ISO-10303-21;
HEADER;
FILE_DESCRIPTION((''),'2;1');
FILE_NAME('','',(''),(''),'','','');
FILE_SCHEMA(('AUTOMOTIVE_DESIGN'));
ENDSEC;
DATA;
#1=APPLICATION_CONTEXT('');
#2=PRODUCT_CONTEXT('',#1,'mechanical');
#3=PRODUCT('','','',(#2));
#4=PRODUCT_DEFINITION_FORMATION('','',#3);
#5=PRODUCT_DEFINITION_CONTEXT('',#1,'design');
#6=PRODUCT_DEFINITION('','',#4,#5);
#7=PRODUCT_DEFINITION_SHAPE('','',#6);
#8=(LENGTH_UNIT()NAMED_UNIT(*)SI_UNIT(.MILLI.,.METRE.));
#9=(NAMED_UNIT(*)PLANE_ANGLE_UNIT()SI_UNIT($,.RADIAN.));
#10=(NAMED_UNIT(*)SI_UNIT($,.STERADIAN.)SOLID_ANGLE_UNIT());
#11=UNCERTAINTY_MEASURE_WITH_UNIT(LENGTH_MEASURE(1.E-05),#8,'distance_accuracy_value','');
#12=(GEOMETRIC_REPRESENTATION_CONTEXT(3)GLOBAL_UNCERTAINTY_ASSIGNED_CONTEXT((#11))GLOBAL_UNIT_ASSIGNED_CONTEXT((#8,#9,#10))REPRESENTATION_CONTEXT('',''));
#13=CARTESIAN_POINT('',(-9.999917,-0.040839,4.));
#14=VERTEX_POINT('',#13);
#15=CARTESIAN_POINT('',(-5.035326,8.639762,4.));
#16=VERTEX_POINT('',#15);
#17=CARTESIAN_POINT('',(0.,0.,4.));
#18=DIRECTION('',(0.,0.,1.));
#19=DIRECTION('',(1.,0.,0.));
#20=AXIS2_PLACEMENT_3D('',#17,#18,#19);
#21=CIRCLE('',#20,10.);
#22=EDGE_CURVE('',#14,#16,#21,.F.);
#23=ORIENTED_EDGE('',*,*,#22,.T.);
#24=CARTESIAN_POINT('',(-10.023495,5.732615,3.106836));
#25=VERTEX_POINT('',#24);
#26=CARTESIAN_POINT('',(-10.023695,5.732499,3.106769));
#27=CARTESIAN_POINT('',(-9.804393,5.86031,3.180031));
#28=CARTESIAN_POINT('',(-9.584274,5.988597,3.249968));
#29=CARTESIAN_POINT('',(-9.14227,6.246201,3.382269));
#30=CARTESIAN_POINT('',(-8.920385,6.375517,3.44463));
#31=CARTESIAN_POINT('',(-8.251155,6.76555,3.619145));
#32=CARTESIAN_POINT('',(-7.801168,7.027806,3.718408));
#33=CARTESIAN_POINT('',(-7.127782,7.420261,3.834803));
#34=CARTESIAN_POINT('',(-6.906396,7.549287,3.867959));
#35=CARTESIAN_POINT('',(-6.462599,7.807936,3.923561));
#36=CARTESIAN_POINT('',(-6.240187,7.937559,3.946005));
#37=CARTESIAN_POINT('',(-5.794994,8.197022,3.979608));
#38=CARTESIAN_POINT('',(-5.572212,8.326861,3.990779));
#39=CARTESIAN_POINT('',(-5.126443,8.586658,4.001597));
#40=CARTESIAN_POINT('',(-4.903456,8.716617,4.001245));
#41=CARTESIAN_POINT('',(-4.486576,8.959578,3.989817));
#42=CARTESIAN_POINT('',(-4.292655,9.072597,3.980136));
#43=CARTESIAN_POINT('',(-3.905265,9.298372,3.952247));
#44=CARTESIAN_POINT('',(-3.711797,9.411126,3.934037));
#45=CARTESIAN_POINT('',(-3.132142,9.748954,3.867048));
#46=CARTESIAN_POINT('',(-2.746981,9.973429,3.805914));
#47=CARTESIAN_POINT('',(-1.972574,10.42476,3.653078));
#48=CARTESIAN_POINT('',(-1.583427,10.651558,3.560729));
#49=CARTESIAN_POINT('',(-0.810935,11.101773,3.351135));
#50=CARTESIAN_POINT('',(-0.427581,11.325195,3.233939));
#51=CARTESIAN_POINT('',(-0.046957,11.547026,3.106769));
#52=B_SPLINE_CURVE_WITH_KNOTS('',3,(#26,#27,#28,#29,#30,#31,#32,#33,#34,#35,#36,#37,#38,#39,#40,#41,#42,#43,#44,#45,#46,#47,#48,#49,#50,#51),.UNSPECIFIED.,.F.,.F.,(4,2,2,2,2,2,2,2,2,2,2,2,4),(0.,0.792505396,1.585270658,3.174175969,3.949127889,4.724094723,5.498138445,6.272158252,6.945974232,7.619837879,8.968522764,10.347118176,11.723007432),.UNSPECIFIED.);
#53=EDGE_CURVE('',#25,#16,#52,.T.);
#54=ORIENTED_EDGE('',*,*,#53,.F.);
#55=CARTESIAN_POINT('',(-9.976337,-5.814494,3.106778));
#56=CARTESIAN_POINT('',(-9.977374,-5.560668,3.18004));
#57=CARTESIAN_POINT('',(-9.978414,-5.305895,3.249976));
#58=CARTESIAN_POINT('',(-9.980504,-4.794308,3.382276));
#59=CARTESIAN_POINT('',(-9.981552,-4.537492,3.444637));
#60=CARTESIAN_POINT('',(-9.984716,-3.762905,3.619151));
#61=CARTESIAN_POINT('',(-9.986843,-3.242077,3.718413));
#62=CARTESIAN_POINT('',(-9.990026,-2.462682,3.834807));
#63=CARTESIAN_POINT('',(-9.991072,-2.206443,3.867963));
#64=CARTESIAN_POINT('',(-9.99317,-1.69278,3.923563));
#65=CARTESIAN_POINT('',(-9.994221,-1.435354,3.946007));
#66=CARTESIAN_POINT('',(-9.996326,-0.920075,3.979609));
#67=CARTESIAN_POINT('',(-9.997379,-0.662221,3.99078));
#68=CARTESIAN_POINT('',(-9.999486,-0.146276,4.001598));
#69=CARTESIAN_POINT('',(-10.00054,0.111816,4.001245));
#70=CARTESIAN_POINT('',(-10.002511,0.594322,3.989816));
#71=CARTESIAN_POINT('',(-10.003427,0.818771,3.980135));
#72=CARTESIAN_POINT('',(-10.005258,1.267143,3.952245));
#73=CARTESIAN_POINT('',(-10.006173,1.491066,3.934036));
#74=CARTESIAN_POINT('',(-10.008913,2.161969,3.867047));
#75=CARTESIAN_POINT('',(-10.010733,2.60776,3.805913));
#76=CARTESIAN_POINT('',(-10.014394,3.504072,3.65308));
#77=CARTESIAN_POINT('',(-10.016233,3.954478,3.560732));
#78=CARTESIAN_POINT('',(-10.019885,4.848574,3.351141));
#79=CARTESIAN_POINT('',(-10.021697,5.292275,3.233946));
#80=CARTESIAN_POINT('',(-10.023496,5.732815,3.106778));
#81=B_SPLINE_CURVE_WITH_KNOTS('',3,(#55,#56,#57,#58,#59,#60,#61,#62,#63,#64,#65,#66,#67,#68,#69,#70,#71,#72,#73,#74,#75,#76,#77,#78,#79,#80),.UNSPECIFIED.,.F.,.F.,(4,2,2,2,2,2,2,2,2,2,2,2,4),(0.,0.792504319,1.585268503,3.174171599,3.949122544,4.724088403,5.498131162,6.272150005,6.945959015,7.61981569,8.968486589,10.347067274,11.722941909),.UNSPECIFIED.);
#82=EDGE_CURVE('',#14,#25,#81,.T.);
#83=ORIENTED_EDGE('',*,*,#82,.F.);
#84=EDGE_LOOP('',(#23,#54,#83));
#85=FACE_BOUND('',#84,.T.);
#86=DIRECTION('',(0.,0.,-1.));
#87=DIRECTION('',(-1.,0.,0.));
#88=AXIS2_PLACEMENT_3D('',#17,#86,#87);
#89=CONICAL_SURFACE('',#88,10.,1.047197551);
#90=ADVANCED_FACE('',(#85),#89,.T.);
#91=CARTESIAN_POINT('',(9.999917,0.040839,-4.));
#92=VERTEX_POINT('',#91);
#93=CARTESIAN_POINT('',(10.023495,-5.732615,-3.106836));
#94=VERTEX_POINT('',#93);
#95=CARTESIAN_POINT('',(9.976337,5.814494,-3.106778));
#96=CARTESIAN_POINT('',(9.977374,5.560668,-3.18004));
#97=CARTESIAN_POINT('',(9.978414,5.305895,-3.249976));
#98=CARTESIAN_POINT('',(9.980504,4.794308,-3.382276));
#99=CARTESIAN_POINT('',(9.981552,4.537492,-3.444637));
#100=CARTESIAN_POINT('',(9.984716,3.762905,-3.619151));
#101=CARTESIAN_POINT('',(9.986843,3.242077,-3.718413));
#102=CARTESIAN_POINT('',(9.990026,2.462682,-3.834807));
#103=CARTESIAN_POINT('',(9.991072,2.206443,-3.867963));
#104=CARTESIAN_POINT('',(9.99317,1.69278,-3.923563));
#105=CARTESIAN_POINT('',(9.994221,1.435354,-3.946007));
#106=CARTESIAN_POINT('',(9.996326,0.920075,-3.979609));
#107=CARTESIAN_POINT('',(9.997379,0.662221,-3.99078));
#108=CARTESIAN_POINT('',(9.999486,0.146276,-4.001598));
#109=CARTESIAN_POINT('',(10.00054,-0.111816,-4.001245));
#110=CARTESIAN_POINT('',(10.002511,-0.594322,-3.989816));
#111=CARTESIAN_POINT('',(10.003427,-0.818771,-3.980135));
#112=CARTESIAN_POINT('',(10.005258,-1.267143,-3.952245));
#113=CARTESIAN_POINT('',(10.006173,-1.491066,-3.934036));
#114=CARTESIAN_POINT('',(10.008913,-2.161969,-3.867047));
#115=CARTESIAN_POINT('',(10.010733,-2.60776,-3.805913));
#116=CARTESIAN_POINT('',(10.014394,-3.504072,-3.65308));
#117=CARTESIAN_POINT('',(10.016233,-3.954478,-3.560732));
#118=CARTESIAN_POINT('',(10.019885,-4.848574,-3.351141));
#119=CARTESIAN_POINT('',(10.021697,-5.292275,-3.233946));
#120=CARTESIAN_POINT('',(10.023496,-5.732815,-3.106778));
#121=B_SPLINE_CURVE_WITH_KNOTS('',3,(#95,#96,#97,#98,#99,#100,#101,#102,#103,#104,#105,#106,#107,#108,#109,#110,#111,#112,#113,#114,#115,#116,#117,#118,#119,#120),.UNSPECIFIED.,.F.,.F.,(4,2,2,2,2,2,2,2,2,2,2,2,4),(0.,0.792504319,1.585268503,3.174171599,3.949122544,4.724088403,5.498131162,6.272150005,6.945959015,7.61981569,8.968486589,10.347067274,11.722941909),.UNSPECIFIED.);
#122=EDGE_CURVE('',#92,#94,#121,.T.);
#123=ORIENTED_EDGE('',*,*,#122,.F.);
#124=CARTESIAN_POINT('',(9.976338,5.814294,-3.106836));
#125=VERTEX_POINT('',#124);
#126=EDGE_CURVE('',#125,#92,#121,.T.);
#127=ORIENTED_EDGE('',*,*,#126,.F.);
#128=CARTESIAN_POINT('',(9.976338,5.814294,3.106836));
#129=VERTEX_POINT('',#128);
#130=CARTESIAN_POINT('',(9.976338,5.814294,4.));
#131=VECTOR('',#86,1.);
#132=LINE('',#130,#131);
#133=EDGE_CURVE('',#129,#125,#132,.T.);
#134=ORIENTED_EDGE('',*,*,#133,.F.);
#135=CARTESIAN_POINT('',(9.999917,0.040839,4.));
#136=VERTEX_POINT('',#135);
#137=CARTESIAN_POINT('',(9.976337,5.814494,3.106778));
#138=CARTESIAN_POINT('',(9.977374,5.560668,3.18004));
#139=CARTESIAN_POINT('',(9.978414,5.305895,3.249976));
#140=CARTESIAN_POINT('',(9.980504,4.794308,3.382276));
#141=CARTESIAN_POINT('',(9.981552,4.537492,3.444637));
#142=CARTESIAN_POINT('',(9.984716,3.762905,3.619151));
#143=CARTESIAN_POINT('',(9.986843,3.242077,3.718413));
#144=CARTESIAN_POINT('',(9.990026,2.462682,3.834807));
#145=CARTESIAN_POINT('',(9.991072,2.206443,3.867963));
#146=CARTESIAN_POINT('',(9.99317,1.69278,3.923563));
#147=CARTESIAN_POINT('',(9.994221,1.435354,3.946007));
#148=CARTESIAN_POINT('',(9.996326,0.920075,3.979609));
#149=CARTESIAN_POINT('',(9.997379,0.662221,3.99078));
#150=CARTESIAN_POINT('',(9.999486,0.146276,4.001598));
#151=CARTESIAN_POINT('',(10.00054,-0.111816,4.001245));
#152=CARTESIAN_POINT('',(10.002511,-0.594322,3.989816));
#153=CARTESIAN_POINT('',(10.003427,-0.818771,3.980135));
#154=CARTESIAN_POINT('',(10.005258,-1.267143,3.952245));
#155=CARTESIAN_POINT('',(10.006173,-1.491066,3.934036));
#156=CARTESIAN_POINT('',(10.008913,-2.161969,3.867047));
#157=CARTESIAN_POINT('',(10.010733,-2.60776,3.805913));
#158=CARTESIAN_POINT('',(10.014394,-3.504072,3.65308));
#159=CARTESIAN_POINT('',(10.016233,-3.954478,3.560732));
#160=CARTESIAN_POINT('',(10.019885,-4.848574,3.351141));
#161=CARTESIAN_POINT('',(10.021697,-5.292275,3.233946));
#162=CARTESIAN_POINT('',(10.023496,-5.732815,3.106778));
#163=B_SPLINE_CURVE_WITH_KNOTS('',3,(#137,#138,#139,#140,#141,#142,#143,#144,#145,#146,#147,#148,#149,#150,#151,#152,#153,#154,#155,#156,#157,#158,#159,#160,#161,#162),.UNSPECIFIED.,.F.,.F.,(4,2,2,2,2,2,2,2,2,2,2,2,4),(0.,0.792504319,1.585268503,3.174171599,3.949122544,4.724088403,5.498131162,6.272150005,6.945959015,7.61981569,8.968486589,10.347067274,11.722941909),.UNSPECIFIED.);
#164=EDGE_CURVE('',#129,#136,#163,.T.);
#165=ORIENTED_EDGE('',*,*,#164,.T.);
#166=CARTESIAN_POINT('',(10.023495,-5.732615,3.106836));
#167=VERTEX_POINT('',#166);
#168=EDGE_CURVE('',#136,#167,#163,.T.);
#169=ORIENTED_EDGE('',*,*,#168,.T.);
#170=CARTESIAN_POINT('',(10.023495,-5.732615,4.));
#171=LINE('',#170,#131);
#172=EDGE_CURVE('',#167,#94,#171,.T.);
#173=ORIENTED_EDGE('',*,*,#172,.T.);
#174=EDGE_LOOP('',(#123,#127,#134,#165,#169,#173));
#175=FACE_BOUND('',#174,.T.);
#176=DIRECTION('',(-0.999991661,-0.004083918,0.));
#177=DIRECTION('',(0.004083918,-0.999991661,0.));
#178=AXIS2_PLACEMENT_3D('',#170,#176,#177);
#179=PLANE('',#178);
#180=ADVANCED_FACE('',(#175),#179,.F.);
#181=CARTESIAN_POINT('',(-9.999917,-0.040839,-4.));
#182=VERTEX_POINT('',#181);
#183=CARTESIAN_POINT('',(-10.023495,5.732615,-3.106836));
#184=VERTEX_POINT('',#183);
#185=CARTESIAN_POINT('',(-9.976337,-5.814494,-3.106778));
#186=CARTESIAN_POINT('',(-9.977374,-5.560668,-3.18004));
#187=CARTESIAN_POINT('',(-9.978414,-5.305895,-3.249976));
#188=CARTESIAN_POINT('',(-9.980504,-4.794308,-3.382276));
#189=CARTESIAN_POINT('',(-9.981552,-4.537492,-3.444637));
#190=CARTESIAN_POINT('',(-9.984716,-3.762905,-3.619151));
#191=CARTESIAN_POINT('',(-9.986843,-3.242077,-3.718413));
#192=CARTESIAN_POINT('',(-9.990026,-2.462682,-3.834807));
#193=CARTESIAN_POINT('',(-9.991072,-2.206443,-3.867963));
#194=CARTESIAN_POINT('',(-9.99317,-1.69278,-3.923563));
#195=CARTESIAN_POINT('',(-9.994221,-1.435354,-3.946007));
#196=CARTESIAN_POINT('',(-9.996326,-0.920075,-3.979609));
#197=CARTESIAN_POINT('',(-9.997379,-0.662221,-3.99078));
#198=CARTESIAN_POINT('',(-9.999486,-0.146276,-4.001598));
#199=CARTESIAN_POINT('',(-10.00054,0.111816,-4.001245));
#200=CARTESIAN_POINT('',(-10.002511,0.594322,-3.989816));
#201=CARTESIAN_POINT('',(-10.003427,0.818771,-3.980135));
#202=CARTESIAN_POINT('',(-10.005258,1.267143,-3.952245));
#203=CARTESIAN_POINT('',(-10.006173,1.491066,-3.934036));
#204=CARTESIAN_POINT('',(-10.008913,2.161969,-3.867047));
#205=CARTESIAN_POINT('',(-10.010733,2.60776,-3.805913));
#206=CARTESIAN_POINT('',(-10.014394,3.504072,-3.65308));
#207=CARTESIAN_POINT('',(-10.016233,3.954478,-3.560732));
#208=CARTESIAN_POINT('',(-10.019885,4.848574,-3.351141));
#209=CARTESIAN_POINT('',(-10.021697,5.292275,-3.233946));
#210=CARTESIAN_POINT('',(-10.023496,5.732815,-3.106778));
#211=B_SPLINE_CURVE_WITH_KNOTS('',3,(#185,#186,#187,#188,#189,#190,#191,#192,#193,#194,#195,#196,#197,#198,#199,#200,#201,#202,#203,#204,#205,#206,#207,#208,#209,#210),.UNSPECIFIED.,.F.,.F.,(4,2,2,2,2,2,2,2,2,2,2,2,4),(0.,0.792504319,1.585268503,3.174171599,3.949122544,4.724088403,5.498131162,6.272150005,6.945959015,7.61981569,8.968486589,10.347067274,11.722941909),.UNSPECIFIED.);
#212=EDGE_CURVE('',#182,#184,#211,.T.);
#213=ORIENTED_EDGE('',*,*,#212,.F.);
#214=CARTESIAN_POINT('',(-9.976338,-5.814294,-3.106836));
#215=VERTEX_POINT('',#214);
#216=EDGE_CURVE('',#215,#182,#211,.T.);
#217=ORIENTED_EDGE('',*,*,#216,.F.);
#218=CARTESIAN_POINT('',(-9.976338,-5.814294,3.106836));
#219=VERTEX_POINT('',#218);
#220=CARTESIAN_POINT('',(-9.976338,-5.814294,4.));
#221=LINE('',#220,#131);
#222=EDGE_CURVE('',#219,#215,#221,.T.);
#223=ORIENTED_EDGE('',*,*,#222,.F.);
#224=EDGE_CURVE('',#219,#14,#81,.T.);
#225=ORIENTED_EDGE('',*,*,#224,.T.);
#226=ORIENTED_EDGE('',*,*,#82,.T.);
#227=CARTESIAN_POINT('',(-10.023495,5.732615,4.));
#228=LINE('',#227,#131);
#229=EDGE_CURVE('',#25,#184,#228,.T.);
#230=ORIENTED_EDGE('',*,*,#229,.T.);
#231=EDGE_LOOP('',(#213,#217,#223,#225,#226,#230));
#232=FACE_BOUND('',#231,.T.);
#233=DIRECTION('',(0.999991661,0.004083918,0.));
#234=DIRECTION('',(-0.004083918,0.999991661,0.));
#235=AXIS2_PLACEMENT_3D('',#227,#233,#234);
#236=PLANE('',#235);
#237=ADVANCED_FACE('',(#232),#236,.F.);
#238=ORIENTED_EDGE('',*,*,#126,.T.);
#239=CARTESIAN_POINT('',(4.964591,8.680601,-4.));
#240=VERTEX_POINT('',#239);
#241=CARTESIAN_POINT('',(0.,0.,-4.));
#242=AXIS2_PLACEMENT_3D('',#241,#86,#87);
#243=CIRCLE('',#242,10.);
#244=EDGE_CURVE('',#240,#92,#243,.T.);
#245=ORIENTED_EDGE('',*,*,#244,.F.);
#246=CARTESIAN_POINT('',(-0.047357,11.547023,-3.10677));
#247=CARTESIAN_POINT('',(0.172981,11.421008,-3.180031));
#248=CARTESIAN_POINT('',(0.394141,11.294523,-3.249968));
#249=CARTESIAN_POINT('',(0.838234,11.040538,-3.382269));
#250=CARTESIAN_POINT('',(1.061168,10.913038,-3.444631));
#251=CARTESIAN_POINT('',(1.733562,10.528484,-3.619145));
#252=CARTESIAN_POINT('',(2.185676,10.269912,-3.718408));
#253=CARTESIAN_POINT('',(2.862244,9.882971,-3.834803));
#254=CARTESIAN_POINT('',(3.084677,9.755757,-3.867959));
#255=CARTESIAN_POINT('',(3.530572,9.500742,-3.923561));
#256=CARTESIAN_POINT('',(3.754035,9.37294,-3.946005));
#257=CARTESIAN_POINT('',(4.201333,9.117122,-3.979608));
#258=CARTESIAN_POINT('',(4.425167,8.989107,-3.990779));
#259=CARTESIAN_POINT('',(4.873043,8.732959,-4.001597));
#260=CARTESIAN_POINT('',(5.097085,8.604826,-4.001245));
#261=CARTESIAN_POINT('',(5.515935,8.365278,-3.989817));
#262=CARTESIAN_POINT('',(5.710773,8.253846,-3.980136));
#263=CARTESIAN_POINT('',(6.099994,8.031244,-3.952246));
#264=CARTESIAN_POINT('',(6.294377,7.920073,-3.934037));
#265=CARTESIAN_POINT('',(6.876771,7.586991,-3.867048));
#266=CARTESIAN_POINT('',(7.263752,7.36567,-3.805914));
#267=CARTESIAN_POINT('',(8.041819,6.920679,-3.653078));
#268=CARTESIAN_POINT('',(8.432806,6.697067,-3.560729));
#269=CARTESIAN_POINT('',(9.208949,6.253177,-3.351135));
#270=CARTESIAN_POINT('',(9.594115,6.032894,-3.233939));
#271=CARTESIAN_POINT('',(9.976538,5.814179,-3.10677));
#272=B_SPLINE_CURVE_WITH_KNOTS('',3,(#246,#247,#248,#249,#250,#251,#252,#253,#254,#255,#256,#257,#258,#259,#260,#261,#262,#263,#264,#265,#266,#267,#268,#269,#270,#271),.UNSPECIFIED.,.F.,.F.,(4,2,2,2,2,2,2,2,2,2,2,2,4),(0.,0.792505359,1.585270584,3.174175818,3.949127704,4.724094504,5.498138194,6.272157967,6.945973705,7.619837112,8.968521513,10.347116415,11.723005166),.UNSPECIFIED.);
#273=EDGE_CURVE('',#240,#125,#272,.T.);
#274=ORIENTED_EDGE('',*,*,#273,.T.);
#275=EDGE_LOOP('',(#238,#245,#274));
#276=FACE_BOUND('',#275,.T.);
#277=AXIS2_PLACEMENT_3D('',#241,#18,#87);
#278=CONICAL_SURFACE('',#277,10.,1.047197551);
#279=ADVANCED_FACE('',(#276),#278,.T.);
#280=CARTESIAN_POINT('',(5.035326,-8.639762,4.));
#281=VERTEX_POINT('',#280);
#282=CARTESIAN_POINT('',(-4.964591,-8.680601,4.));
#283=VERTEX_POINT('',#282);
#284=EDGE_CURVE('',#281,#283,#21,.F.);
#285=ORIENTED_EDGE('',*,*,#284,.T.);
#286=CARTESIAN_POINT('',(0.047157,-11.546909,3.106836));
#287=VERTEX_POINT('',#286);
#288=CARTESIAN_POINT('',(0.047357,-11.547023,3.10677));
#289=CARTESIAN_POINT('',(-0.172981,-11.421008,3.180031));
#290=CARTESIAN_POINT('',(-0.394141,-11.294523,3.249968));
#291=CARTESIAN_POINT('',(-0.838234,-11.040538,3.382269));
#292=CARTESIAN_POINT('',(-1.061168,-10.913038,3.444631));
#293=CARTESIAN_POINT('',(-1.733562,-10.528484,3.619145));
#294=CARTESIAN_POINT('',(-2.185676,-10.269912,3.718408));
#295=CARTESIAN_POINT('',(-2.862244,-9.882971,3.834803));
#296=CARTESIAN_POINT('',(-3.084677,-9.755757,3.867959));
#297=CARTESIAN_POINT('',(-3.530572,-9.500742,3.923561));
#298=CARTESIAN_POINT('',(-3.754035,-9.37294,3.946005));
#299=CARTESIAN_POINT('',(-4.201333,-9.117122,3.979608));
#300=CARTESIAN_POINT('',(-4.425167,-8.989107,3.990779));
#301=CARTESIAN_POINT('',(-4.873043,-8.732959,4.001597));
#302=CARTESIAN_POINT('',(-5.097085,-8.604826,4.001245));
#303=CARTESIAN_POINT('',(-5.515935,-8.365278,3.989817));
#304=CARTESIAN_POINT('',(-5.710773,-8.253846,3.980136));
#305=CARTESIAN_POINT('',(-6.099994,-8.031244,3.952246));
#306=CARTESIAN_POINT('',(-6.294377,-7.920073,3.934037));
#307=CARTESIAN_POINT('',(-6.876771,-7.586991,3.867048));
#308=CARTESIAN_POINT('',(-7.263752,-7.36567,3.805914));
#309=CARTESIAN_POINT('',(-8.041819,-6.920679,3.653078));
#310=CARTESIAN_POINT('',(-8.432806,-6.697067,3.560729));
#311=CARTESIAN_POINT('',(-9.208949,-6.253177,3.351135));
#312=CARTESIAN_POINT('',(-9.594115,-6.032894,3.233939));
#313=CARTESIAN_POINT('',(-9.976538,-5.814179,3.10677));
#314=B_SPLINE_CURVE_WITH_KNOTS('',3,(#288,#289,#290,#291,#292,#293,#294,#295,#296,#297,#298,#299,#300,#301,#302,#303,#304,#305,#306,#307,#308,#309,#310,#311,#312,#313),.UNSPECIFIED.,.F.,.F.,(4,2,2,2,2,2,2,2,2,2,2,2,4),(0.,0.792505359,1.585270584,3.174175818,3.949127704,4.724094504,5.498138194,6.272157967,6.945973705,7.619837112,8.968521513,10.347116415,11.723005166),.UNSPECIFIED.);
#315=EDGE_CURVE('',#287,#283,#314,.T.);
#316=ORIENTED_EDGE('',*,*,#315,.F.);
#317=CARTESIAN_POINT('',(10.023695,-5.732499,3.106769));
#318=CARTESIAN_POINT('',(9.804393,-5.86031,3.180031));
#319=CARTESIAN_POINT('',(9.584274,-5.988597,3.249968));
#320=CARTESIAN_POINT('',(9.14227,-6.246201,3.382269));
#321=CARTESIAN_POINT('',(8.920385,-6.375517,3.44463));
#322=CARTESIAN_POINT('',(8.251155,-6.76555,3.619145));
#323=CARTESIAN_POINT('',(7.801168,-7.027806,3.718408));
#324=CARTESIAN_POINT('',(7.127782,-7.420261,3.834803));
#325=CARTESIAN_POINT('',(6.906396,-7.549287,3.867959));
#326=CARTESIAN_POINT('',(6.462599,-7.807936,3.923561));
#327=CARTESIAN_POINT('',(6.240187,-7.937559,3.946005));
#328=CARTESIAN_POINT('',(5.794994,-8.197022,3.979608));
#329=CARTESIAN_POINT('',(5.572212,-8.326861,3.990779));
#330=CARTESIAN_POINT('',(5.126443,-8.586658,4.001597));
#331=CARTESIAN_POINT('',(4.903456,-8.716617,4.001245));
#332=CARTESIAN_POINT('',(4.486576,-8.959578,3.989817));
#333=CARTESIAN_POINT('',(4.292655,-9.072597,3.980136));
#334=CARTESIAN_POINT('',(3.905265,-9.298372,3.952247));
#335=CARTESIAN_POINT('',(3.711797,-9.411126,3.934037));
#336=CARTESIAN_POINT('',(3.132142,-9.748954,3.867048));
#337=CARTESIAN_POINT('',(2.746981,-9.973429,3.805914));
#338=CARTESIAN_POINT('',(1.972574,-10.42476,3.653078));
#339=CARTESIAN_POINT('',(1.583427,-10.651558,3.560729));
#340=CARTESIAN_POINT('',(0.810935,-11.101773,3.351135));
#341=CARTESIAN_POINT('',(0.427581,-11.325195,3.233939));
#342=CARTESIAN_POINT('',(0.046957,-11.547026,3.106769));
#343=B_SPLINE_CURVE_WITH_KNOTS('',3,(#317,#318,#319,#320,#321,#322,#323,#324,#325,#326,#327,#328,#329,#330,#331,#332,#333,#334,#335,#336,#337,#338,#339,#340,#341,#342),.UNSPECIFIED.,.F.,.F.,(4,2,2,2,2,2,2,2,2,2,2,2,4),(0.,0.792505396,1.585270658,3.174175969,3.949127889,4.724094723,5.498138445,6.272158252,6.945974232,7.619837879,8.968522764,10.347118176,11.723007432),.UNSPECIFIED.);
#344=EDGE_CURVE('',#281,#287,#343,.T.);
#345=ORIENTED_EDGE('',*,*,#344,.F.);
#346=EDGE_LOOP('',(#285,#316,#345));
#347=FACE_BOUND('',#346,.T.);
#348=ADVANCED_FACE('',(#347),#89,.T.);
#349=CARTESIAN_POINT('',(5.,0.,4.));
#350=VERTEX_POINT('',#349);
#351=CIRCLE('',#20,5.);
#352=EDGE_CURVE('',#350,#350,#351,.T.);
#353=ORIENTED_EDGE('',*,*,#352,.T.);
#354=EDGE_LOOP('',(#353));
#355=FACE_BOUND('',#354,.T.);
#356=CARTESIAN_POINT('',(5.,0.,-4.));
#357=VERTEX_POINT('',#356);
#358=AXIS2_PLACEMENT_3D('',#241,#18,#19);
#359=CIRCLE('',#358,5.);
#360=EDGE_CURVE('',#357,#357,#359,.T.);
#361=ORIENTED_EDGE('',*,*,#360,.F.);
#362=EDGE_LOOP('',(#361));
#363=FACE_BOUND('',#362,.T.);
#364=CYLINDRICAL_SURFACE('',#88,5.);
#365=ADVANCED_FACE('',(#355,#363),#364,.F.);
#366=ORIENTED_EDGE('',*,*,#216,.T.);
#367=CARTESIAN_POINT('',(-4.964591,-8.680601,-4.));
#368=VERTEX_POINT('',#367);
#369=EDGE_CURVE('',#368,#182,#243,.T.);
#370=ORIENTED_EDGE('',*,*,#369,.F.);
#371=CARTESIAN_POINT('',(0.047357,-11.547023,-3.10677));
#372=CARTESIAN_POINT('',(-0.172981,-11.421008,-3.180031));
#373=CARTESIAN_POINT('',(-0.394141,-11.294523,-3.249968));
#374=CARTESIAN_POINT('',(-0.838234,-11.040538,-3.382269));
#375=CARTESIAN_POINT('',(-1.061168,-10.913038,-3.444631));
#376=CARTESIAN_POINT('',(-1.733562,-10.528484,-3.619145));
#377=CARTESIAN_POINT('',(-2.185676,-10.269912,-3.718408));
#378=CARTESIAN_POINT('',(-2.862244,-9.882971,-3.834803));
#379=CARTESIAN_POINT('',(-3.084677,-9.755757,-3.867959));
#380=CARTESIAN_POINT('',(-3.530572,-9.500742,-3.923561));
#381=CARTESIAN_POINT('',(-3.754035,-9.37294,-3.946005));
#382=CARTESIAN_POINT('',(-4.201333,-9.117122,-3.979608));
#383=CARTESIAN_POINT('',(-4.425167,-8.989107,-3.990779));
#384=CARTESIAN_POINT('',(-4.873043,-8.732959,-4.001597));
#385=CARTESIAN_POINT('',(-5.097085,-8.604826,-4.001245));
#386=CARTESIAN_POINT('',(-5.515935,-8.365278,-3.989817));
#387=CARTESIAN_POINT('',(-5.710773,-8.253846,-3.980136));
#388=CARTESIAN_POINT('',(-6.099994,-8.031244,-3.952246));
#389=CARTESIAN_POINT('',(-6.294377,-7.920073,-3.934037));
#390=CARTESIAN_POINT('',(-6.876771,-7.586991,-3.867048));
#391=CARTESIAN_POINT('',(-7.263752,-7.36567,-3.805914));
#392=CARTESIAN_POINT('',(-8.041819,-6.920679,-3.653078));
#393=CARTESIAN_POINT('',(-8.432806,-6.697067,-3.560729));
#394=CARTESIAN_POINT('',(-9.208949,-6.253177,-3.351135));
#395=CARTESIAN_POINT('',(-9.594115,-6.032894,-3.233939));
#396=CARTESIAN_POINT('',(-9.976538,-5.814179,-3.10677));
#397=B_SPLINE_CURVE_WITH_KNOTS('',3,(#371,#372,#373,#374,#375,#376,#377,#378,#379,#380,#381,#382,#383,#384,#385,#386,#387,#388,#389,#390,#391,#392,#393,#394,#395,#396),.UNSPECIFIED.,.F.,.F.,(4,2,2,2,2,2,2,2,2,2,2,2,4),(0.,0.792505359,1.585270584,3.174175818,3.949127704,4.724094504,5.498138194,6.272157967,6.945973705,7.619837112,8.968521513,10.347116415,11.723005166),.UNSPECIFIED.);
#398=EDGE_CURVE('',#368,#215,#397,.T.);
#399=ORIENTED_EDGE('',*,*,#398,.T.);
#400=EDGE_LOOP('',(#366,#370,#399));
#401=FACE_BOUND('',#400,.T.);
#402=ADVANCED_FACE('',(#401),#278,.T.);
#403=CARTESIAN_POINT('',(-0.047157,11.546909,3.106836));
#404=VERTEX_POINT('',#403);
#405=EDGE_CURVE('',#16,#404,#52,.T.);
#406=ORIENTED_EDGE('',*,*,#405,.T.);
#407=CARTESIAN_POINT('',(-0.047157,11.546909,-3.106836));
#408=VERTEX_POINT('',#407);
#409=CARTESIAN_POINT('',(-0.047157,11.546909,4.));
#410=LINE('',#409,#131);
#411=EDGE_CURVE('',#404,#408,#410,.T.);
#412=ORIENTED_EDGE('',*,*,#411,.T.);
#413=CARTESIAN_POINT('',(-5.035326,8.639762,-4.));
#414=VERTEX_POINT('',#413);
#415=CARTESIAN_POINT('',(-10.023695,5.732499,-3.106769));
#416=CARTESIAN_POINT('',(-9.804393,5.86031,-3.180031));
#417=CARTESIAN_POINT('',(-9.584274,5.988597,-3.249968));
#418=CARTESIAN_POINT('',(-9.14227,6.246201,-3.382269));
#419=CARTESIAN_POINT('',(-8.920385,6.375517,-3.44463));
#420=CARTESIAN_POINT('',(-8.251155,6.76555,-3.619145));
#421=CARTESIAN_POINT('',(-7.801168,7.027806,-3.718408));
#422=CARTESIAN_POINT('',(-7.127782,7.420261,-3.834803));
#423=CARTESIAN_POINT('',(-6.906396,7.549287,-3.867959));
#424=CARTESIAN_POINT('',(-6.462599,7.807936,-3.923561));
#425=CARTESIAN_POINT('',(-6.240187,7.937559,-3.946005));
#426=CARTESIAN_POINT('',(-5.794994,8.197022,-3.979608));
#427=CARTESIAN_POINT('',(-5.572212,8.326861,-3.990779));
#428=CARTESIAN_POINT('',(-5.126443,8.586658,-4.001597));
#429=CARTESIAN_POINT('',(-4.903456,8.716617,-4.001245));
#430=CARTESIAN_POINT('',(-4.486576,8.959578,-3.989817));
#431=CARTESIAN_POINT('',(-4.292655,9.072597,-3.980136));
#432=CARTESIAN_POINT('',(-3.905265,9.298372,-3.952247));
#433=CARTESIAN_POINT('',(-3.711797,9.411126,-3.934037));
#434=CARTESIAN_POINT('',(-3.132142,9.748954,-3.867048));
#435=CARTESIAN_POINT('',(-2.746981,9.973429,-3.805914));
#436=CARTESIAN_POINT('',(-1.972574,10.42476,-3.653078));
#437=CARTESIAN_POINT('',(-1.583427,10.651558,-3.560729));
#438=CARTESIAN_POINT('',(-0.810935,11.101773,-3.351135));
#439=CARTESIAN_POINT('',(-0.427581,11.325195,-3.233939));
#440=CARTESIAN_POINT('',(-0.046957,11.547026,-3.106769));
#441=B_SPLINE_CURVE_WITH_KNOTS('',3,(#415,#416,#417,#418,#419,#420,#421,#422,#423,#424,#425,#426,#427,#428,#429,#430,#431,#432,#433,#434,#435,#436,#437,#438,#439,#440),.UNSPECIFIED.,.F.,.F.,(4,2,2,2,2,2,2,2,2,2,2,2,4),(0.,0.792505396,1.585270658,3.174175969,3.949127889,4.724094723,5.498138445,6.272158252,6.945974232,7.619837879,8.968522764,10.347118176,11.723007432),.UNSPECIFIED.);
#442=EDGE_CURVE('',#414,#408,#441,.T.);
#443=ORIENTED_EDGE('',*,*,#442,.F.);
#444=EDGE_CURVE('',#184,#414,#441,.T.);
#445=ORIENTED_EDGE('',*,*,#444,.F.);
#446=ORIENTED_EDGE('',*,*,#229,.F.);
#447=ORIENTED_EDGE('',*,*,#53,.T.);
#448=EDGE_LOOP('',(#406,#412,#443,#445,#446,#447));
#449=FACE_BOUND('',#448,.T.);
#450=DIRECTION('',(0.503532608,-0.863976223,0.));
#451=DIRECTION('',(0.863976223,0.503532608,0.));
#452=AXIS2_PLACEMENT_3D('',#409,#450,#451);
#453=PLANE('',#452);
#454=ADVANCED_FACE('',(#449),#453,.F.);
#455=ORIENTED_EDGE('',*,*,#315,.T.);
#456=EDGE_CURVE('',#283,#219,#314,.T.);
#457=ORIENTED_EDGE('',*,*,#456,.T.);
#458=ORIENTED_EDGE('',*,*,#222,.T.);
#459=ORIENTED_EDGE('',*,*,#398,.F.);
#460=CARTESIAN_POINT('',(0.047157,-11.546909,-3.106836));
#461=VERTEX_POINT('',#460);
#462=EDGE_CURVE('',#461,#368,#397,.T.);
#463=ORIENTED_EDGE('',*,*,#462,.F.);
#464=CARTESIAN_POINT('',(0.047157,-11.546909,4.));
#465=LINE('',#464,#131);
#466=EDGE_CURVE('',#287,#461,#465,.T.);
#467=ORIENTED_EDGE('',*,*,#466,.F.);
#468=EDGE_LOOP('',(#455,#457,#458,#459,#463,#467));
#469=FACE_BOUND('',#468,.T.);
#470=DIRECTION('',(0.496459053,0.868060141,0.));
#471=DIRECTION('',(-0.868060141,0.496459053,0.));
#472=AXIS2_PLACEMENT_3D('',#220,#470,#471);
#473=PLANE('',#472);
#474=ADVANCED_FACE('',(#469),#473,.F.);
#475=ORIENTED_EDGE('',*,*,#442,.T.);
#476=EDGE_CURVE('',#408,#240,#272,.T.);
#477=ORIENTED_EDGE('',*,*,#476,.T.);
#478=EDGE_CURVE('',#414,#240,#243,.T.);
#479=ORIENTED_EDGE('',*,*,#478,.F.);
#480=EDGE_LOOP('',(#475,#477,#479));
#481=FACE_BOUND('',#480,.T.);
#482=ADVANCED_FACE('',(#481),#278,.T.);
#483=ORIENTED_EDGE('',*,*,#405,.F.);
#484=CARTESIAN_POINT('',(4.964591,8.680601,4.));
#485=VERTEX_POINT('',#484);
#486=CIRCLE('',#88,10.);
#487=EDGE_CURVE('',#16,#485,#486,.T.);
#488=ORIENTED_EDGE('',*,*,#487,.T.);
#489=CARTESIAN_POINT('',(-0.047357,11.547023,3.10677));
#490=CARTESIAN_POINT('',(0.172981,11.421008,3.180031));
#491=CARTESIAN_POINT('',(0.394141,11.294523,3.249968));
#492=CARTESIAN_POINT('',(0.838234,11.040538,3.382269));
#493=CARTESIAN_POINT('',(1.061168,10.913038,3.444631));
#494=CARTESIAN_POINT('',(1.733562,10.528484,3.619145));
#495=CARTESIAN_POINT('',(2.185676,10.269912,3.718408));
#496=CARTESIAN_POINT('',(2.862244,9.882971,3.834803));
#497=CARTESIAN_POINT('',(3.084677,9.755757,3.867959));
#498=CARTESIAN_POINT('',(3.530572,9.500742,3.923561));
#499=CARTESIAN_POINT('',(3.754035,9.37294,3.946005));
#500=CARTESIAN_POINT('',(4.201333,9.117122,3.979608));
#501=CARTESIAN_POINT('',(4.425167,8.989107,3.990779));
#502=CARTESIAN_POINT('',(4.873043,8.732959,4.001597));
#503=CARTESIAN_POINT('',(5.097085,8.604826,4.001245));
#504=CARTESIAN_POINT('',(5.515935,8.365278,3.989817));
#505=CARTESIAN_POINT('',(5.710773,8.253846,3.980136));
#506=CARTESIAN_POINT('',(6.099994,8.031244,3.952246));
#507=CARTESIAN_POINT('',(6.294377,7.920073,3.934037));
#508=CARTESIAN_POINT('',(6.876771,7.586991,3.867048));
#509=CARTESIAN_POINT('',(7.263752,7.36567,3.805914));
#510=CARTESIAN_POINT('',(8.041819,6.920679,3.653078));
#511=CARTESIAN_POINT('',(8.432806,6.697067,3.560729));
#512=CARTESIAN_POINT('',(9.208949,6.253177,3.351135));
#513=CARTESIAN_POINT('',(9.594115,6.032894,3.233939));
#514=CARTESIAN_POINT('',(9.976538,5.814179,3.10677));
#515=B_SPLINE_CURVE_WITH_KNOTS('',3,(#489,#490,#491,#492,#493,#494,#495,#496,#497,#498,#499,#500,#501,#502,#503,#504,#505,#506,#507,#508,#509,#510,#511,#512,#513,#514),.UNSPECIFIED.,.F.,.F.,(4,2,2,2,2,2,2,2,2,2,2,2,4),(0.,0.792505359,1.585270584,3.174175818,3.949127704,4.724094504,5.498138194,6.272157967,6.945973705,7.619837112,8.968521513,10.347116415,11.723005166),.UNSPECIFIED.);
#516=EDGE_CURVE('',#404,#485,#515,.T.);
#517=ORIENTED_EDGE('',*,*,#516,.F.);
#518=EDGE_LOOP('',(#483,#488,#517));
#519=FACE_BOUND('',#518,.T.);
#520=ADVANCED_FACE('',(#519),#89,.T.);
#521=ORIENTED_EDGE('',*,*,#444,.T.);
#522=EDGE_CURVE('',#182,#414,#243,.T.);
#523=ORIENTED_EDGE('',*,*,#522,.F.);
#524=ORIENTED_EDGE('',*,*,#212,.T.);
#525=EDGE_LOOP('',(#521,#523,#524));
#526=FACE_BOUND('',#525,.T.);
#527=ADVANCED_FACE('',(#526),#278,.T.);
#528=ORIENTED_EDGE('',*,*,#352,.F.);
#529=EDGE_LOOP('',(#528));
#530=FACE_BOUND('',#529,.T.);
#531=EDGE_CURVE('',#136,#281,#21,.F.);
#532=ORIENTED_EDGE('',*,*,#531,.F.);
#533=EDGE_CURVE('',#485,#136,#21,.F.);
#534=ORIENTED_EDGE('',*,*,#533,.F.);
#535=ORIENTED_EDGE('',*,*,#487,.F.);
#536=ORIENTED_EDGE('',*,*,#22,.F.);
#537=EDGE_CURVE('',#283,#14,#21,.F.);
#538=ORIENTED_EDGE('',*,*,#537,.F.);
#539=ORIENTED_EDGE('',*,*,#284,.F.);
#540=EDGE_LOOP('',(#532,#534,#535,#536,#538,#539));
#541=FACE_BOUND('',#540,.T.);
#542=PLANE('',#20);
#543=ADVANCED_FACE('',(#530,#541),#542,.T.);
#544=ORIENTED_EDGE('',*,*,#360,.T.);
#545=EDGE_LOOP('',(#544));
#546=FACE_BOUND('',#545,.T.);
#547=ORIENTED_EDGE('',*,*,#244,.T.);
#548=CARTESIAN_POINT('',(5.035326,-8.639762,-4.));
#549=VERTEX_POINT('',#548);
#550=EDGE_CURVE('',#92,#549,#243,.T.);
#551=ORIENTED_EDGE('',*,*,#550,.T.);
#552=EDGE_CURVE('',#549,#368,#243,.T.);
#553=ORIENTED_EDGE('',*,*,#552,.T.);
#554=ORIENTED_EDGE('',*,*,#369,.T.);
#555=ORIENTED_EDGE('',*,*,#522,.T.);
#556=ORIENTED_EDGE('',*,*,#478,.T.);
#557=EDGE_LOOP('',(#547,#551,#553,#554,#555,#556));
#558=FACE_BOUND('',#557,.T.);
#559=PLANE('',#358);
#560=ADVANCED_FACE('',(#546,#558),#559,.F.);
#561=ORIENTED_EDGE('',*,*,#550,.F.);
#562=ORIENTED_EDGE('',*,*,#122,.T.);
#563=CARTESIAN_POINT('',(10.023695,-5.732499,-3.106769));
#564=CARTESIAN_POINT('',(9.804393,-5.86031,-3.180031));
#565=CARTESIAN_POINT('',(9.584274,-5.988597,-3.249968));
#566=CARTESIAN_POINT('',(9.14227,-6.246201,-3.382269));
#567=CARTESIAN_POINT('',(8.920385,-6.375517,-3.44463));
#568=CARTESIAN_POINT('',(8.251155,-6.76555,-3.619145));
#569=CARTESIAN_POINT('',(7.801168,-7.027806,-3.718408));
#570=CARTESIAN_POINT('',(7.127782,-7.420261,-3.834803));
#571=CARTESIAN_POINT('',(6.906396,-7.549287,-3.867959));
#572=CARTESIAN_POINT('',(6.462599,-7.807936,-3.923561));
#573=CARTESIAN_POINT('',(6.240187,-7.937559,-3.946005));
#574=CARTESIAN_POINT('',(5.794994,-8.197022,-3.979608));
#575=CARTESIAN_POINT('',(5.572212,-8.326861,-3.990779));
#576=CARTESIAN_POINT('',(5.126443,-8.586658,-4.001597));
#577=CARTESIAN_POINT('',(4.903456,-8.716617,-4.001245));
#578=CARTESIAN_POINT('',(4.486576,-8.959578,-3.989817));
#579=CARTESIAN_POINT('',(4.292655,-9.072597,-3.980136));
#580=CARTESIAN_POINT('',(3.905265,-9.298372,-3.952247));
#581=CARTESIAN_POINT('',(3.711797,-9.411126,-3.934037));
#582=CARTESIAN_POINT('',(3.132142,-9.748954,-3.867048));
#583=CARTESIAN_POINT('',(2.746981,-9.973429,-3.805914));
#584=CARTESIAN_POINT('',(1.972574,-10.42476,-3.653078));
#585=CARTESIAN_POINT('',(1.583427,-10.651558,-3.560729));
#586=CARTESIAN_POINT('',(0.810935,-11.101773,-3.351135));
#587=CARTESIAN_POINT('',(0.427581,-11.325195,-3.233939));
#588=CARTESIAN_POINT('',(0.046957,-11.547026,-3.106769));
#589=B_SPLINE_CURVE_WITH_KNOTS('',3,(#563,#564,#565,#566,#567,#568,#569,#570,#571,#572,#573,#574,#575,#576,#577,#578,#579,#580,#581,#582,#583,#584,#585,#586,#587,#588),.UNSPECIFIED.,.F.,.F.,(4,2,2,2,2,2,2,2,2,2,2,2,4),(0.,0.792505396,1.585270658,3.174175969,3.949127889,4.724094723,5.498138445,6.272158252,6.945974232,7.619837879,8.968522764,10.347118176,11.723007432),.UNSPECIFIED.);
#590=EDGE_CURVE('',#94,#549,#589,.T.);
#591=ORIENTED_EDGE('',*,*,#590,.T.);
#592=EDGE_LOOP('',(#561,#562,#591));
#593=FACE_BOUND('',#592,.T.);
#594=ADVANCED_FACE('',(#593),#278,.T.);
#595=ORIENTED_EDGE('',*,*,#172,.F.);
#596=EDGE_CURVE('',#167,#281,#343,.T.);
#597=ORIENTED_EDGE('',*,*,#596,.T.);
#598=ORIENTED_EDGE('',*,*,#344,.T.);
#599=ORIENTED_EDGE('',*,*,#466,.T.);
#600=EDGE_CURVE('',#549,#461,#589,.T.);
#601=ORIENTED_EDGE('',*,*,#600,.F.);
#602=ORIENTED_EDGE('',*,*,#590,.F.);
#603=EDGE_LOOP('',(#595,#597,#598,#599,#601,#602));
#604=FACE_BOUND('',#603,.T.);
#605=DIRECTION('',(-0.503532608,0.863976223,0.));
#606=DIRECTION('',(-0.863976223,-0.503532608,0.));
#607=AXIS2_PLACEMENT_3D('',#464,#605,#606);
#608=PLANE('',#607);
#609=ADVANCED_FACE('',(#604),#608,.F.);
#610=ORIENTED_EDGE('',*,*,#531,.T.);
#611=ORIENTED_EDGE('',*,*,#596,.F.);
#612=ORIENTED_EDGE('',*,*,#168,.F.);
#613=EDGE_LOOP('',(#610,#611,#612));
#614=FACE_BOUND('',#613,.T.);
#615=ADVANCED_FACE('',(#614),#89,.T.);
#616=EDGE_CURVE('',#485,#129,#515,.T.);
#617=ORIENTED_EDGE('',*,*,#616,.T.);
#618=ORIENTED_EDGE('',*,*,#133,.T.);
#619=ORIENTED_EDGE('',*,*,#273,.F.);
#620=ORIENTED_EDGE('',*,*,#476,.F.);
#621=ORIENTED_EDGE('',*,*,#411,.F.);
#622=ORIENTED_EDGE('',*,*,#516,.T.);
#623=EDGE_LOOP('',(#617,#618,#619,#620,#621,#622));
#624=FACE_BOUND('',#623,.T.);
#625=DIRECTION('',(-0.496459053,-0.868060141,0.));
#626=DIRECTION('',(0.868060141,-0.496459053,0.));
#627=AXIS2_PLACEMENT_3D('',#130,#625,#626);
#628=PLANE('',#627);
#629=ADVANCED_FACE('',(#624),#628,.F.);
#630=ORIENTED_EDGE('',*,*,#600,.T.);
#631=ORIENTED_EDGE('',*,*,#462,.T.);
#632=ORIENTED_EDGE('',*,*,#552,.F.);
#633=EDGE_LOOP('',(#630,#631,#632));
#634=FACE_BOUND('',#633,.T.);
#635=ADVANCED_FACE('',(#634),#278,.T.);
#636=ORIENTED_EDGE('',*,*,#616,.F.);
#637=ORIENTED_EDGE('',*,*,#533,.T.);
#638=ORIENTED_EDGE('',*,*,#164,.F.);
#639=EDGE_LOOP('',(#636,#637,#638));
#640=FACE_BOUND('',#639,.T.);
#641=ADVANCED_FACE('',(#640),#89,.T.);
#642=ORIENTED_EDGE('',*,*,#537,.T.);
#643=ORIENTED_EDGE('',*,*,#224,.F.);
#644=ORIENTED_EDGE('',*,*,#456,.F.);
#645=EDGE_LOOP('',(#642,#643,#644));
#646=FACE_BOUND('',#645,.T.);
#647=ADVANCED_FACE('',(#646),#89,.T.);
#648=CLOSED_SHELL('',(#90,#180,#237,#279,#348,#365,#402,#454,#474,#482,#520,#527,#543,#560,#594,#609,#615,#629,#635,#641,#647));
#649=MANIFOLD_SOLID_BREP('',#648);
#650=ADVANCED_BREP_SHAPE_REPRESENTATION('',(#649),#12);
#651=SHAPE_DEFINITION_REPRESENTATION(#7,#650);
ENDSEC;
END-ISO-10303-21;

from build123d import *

# Parameters (mm, degrees)
SKETCH1_R               = 5
BOSS_EXTRUDE1_DEPTH     = 4
SKETCH2_OUTSIDE_W       = 56.08
SKETCH2_OUTSIDE_H       = 59.128
SKETCH2_OUTSIDE_R       = 10
CUT_EXTRUDE1_DEPTH      = 8
CUT_EXTRUDE1_DRAFT      = -60
MIRROR1_COPY_1_SKETCH_W = 56.08
MIRROR1_COPY_1_SKETCH_H = 59.128
MIRROR1_COPY_1_SKETCH_R = 10
MIRROR1_COPY_1_DEPTH    = 8
MIRROR1_COPY_1_DRAFT    = -60


with BuildPart() as part:
    # Sketch1 → Boss-Extrude1 (new, symmetric)
    with BuildSketch(Plane.XY):
        Polygon((10.023495122, -5.732615361), (9.976338094, 5.81429373), (-0.047157028, 11.546909091), (-10.023495122, 5.732615361), (-9.976338094, -5.81429373), (0.047157028, -11.546909091), align=None)
        Circle(SKETCH1_R, mode=Mode.SUBTRACT)
    extrude(amount=BOSS_EXTRUDE1_DEPTH, both=True)


with BuildPart() as cut_extrude1_tool:
    # Sketch2 outside → Cut-Extrude1 (with draft: the straight prism first)
    with BuildSketch(Plane(origin=(0, 0, -4), x_dir=(-1, 0, 0), z_dir=(0, 0, -1))):
        Rectangle(SKETCH2_OUTSIDE_W, SKETCH2_OUTSIDE_H)
        Circle(SKETCH2_OUTSIDE_R, mode=Mode.SUBTRACT)
    extrude(amount=-CUT_EXTRUDE1_DEPTH)
    # Cut-Extrude1: the draft: its side faces are tilted about the plane it starts from
    cut_extrude1_sides = [cut_extrude1_tool.faces().sort_by_distance(p)[0] for p in [
        (0, -29.564, 0),
        (-28.04, 0, 0),
        (0, 29.564, 0),
        (28.04, 0, 0),
        (10, 0, 0),
    ]]
    draft(cut_extrude1_sides, Plane(origin=(0, 0, -4), x_dir=(-1, 0, 0), z_dir=(0, 0, -1)), CUT_EXTRUDE1_DRAFT)


with BuildPart() as part_1:
    add(part.part)

    # Cut-Extrude1: cut by cut_extrude1_tool
    add(cut_extrude1_tool.part, mode=Mode.SUBTRACT)


with BuildPart() as mirror1_copy_1_tool:
    # Mirror1 copy 1 sketch → Mirror1 copy 1 (with draft: the straight prism first)
    with BuildSketch(Plane(origin=(0, 0, 4), x_dir=(-1, 0, 0), z_dir=(0, 0, 1))):
        Rectangle(MIRROR1_COPY_1_SKETCH_W, MIRROR1_COPY_1_SKETCH_H)
        Circle(MIRROR1_COPY_1_SKETCH_R, mode=Mode.SUBTRACT)
    extrude(amount=-MIRROR1_COPY_1_DEPTH)
    # Mirror1 copy 1: the draft: its side faces are tilted about the plane it starts from
    mirror1_copy_1_sides = [mirror1_copy_1_tool.faces().sort_by_distance(p)[0] for p in [
        (0, -29.564, 0),
        (-28.04, 0, 0),
        (0, 29.564, 0),
        (28.04, 0, 0),
        (10, 0, 0),
    ]]
    draft(mirror1_copy_1_sides, Plane(origin=(0, 0, 4), x_dir=(-1, 0, 0), z_dir=(0, 0, 1)), MIRROR1_COPY_1_DRAFT)


with BuildPart() as part_2:
    add(part_1.part)

    # Mirror1 copy 1: cut by mirror1_copy_1_tool
    add(mirror1_copy_1_tool.part, mode=Mode.SUBTRACT)


solid = part_2.part
